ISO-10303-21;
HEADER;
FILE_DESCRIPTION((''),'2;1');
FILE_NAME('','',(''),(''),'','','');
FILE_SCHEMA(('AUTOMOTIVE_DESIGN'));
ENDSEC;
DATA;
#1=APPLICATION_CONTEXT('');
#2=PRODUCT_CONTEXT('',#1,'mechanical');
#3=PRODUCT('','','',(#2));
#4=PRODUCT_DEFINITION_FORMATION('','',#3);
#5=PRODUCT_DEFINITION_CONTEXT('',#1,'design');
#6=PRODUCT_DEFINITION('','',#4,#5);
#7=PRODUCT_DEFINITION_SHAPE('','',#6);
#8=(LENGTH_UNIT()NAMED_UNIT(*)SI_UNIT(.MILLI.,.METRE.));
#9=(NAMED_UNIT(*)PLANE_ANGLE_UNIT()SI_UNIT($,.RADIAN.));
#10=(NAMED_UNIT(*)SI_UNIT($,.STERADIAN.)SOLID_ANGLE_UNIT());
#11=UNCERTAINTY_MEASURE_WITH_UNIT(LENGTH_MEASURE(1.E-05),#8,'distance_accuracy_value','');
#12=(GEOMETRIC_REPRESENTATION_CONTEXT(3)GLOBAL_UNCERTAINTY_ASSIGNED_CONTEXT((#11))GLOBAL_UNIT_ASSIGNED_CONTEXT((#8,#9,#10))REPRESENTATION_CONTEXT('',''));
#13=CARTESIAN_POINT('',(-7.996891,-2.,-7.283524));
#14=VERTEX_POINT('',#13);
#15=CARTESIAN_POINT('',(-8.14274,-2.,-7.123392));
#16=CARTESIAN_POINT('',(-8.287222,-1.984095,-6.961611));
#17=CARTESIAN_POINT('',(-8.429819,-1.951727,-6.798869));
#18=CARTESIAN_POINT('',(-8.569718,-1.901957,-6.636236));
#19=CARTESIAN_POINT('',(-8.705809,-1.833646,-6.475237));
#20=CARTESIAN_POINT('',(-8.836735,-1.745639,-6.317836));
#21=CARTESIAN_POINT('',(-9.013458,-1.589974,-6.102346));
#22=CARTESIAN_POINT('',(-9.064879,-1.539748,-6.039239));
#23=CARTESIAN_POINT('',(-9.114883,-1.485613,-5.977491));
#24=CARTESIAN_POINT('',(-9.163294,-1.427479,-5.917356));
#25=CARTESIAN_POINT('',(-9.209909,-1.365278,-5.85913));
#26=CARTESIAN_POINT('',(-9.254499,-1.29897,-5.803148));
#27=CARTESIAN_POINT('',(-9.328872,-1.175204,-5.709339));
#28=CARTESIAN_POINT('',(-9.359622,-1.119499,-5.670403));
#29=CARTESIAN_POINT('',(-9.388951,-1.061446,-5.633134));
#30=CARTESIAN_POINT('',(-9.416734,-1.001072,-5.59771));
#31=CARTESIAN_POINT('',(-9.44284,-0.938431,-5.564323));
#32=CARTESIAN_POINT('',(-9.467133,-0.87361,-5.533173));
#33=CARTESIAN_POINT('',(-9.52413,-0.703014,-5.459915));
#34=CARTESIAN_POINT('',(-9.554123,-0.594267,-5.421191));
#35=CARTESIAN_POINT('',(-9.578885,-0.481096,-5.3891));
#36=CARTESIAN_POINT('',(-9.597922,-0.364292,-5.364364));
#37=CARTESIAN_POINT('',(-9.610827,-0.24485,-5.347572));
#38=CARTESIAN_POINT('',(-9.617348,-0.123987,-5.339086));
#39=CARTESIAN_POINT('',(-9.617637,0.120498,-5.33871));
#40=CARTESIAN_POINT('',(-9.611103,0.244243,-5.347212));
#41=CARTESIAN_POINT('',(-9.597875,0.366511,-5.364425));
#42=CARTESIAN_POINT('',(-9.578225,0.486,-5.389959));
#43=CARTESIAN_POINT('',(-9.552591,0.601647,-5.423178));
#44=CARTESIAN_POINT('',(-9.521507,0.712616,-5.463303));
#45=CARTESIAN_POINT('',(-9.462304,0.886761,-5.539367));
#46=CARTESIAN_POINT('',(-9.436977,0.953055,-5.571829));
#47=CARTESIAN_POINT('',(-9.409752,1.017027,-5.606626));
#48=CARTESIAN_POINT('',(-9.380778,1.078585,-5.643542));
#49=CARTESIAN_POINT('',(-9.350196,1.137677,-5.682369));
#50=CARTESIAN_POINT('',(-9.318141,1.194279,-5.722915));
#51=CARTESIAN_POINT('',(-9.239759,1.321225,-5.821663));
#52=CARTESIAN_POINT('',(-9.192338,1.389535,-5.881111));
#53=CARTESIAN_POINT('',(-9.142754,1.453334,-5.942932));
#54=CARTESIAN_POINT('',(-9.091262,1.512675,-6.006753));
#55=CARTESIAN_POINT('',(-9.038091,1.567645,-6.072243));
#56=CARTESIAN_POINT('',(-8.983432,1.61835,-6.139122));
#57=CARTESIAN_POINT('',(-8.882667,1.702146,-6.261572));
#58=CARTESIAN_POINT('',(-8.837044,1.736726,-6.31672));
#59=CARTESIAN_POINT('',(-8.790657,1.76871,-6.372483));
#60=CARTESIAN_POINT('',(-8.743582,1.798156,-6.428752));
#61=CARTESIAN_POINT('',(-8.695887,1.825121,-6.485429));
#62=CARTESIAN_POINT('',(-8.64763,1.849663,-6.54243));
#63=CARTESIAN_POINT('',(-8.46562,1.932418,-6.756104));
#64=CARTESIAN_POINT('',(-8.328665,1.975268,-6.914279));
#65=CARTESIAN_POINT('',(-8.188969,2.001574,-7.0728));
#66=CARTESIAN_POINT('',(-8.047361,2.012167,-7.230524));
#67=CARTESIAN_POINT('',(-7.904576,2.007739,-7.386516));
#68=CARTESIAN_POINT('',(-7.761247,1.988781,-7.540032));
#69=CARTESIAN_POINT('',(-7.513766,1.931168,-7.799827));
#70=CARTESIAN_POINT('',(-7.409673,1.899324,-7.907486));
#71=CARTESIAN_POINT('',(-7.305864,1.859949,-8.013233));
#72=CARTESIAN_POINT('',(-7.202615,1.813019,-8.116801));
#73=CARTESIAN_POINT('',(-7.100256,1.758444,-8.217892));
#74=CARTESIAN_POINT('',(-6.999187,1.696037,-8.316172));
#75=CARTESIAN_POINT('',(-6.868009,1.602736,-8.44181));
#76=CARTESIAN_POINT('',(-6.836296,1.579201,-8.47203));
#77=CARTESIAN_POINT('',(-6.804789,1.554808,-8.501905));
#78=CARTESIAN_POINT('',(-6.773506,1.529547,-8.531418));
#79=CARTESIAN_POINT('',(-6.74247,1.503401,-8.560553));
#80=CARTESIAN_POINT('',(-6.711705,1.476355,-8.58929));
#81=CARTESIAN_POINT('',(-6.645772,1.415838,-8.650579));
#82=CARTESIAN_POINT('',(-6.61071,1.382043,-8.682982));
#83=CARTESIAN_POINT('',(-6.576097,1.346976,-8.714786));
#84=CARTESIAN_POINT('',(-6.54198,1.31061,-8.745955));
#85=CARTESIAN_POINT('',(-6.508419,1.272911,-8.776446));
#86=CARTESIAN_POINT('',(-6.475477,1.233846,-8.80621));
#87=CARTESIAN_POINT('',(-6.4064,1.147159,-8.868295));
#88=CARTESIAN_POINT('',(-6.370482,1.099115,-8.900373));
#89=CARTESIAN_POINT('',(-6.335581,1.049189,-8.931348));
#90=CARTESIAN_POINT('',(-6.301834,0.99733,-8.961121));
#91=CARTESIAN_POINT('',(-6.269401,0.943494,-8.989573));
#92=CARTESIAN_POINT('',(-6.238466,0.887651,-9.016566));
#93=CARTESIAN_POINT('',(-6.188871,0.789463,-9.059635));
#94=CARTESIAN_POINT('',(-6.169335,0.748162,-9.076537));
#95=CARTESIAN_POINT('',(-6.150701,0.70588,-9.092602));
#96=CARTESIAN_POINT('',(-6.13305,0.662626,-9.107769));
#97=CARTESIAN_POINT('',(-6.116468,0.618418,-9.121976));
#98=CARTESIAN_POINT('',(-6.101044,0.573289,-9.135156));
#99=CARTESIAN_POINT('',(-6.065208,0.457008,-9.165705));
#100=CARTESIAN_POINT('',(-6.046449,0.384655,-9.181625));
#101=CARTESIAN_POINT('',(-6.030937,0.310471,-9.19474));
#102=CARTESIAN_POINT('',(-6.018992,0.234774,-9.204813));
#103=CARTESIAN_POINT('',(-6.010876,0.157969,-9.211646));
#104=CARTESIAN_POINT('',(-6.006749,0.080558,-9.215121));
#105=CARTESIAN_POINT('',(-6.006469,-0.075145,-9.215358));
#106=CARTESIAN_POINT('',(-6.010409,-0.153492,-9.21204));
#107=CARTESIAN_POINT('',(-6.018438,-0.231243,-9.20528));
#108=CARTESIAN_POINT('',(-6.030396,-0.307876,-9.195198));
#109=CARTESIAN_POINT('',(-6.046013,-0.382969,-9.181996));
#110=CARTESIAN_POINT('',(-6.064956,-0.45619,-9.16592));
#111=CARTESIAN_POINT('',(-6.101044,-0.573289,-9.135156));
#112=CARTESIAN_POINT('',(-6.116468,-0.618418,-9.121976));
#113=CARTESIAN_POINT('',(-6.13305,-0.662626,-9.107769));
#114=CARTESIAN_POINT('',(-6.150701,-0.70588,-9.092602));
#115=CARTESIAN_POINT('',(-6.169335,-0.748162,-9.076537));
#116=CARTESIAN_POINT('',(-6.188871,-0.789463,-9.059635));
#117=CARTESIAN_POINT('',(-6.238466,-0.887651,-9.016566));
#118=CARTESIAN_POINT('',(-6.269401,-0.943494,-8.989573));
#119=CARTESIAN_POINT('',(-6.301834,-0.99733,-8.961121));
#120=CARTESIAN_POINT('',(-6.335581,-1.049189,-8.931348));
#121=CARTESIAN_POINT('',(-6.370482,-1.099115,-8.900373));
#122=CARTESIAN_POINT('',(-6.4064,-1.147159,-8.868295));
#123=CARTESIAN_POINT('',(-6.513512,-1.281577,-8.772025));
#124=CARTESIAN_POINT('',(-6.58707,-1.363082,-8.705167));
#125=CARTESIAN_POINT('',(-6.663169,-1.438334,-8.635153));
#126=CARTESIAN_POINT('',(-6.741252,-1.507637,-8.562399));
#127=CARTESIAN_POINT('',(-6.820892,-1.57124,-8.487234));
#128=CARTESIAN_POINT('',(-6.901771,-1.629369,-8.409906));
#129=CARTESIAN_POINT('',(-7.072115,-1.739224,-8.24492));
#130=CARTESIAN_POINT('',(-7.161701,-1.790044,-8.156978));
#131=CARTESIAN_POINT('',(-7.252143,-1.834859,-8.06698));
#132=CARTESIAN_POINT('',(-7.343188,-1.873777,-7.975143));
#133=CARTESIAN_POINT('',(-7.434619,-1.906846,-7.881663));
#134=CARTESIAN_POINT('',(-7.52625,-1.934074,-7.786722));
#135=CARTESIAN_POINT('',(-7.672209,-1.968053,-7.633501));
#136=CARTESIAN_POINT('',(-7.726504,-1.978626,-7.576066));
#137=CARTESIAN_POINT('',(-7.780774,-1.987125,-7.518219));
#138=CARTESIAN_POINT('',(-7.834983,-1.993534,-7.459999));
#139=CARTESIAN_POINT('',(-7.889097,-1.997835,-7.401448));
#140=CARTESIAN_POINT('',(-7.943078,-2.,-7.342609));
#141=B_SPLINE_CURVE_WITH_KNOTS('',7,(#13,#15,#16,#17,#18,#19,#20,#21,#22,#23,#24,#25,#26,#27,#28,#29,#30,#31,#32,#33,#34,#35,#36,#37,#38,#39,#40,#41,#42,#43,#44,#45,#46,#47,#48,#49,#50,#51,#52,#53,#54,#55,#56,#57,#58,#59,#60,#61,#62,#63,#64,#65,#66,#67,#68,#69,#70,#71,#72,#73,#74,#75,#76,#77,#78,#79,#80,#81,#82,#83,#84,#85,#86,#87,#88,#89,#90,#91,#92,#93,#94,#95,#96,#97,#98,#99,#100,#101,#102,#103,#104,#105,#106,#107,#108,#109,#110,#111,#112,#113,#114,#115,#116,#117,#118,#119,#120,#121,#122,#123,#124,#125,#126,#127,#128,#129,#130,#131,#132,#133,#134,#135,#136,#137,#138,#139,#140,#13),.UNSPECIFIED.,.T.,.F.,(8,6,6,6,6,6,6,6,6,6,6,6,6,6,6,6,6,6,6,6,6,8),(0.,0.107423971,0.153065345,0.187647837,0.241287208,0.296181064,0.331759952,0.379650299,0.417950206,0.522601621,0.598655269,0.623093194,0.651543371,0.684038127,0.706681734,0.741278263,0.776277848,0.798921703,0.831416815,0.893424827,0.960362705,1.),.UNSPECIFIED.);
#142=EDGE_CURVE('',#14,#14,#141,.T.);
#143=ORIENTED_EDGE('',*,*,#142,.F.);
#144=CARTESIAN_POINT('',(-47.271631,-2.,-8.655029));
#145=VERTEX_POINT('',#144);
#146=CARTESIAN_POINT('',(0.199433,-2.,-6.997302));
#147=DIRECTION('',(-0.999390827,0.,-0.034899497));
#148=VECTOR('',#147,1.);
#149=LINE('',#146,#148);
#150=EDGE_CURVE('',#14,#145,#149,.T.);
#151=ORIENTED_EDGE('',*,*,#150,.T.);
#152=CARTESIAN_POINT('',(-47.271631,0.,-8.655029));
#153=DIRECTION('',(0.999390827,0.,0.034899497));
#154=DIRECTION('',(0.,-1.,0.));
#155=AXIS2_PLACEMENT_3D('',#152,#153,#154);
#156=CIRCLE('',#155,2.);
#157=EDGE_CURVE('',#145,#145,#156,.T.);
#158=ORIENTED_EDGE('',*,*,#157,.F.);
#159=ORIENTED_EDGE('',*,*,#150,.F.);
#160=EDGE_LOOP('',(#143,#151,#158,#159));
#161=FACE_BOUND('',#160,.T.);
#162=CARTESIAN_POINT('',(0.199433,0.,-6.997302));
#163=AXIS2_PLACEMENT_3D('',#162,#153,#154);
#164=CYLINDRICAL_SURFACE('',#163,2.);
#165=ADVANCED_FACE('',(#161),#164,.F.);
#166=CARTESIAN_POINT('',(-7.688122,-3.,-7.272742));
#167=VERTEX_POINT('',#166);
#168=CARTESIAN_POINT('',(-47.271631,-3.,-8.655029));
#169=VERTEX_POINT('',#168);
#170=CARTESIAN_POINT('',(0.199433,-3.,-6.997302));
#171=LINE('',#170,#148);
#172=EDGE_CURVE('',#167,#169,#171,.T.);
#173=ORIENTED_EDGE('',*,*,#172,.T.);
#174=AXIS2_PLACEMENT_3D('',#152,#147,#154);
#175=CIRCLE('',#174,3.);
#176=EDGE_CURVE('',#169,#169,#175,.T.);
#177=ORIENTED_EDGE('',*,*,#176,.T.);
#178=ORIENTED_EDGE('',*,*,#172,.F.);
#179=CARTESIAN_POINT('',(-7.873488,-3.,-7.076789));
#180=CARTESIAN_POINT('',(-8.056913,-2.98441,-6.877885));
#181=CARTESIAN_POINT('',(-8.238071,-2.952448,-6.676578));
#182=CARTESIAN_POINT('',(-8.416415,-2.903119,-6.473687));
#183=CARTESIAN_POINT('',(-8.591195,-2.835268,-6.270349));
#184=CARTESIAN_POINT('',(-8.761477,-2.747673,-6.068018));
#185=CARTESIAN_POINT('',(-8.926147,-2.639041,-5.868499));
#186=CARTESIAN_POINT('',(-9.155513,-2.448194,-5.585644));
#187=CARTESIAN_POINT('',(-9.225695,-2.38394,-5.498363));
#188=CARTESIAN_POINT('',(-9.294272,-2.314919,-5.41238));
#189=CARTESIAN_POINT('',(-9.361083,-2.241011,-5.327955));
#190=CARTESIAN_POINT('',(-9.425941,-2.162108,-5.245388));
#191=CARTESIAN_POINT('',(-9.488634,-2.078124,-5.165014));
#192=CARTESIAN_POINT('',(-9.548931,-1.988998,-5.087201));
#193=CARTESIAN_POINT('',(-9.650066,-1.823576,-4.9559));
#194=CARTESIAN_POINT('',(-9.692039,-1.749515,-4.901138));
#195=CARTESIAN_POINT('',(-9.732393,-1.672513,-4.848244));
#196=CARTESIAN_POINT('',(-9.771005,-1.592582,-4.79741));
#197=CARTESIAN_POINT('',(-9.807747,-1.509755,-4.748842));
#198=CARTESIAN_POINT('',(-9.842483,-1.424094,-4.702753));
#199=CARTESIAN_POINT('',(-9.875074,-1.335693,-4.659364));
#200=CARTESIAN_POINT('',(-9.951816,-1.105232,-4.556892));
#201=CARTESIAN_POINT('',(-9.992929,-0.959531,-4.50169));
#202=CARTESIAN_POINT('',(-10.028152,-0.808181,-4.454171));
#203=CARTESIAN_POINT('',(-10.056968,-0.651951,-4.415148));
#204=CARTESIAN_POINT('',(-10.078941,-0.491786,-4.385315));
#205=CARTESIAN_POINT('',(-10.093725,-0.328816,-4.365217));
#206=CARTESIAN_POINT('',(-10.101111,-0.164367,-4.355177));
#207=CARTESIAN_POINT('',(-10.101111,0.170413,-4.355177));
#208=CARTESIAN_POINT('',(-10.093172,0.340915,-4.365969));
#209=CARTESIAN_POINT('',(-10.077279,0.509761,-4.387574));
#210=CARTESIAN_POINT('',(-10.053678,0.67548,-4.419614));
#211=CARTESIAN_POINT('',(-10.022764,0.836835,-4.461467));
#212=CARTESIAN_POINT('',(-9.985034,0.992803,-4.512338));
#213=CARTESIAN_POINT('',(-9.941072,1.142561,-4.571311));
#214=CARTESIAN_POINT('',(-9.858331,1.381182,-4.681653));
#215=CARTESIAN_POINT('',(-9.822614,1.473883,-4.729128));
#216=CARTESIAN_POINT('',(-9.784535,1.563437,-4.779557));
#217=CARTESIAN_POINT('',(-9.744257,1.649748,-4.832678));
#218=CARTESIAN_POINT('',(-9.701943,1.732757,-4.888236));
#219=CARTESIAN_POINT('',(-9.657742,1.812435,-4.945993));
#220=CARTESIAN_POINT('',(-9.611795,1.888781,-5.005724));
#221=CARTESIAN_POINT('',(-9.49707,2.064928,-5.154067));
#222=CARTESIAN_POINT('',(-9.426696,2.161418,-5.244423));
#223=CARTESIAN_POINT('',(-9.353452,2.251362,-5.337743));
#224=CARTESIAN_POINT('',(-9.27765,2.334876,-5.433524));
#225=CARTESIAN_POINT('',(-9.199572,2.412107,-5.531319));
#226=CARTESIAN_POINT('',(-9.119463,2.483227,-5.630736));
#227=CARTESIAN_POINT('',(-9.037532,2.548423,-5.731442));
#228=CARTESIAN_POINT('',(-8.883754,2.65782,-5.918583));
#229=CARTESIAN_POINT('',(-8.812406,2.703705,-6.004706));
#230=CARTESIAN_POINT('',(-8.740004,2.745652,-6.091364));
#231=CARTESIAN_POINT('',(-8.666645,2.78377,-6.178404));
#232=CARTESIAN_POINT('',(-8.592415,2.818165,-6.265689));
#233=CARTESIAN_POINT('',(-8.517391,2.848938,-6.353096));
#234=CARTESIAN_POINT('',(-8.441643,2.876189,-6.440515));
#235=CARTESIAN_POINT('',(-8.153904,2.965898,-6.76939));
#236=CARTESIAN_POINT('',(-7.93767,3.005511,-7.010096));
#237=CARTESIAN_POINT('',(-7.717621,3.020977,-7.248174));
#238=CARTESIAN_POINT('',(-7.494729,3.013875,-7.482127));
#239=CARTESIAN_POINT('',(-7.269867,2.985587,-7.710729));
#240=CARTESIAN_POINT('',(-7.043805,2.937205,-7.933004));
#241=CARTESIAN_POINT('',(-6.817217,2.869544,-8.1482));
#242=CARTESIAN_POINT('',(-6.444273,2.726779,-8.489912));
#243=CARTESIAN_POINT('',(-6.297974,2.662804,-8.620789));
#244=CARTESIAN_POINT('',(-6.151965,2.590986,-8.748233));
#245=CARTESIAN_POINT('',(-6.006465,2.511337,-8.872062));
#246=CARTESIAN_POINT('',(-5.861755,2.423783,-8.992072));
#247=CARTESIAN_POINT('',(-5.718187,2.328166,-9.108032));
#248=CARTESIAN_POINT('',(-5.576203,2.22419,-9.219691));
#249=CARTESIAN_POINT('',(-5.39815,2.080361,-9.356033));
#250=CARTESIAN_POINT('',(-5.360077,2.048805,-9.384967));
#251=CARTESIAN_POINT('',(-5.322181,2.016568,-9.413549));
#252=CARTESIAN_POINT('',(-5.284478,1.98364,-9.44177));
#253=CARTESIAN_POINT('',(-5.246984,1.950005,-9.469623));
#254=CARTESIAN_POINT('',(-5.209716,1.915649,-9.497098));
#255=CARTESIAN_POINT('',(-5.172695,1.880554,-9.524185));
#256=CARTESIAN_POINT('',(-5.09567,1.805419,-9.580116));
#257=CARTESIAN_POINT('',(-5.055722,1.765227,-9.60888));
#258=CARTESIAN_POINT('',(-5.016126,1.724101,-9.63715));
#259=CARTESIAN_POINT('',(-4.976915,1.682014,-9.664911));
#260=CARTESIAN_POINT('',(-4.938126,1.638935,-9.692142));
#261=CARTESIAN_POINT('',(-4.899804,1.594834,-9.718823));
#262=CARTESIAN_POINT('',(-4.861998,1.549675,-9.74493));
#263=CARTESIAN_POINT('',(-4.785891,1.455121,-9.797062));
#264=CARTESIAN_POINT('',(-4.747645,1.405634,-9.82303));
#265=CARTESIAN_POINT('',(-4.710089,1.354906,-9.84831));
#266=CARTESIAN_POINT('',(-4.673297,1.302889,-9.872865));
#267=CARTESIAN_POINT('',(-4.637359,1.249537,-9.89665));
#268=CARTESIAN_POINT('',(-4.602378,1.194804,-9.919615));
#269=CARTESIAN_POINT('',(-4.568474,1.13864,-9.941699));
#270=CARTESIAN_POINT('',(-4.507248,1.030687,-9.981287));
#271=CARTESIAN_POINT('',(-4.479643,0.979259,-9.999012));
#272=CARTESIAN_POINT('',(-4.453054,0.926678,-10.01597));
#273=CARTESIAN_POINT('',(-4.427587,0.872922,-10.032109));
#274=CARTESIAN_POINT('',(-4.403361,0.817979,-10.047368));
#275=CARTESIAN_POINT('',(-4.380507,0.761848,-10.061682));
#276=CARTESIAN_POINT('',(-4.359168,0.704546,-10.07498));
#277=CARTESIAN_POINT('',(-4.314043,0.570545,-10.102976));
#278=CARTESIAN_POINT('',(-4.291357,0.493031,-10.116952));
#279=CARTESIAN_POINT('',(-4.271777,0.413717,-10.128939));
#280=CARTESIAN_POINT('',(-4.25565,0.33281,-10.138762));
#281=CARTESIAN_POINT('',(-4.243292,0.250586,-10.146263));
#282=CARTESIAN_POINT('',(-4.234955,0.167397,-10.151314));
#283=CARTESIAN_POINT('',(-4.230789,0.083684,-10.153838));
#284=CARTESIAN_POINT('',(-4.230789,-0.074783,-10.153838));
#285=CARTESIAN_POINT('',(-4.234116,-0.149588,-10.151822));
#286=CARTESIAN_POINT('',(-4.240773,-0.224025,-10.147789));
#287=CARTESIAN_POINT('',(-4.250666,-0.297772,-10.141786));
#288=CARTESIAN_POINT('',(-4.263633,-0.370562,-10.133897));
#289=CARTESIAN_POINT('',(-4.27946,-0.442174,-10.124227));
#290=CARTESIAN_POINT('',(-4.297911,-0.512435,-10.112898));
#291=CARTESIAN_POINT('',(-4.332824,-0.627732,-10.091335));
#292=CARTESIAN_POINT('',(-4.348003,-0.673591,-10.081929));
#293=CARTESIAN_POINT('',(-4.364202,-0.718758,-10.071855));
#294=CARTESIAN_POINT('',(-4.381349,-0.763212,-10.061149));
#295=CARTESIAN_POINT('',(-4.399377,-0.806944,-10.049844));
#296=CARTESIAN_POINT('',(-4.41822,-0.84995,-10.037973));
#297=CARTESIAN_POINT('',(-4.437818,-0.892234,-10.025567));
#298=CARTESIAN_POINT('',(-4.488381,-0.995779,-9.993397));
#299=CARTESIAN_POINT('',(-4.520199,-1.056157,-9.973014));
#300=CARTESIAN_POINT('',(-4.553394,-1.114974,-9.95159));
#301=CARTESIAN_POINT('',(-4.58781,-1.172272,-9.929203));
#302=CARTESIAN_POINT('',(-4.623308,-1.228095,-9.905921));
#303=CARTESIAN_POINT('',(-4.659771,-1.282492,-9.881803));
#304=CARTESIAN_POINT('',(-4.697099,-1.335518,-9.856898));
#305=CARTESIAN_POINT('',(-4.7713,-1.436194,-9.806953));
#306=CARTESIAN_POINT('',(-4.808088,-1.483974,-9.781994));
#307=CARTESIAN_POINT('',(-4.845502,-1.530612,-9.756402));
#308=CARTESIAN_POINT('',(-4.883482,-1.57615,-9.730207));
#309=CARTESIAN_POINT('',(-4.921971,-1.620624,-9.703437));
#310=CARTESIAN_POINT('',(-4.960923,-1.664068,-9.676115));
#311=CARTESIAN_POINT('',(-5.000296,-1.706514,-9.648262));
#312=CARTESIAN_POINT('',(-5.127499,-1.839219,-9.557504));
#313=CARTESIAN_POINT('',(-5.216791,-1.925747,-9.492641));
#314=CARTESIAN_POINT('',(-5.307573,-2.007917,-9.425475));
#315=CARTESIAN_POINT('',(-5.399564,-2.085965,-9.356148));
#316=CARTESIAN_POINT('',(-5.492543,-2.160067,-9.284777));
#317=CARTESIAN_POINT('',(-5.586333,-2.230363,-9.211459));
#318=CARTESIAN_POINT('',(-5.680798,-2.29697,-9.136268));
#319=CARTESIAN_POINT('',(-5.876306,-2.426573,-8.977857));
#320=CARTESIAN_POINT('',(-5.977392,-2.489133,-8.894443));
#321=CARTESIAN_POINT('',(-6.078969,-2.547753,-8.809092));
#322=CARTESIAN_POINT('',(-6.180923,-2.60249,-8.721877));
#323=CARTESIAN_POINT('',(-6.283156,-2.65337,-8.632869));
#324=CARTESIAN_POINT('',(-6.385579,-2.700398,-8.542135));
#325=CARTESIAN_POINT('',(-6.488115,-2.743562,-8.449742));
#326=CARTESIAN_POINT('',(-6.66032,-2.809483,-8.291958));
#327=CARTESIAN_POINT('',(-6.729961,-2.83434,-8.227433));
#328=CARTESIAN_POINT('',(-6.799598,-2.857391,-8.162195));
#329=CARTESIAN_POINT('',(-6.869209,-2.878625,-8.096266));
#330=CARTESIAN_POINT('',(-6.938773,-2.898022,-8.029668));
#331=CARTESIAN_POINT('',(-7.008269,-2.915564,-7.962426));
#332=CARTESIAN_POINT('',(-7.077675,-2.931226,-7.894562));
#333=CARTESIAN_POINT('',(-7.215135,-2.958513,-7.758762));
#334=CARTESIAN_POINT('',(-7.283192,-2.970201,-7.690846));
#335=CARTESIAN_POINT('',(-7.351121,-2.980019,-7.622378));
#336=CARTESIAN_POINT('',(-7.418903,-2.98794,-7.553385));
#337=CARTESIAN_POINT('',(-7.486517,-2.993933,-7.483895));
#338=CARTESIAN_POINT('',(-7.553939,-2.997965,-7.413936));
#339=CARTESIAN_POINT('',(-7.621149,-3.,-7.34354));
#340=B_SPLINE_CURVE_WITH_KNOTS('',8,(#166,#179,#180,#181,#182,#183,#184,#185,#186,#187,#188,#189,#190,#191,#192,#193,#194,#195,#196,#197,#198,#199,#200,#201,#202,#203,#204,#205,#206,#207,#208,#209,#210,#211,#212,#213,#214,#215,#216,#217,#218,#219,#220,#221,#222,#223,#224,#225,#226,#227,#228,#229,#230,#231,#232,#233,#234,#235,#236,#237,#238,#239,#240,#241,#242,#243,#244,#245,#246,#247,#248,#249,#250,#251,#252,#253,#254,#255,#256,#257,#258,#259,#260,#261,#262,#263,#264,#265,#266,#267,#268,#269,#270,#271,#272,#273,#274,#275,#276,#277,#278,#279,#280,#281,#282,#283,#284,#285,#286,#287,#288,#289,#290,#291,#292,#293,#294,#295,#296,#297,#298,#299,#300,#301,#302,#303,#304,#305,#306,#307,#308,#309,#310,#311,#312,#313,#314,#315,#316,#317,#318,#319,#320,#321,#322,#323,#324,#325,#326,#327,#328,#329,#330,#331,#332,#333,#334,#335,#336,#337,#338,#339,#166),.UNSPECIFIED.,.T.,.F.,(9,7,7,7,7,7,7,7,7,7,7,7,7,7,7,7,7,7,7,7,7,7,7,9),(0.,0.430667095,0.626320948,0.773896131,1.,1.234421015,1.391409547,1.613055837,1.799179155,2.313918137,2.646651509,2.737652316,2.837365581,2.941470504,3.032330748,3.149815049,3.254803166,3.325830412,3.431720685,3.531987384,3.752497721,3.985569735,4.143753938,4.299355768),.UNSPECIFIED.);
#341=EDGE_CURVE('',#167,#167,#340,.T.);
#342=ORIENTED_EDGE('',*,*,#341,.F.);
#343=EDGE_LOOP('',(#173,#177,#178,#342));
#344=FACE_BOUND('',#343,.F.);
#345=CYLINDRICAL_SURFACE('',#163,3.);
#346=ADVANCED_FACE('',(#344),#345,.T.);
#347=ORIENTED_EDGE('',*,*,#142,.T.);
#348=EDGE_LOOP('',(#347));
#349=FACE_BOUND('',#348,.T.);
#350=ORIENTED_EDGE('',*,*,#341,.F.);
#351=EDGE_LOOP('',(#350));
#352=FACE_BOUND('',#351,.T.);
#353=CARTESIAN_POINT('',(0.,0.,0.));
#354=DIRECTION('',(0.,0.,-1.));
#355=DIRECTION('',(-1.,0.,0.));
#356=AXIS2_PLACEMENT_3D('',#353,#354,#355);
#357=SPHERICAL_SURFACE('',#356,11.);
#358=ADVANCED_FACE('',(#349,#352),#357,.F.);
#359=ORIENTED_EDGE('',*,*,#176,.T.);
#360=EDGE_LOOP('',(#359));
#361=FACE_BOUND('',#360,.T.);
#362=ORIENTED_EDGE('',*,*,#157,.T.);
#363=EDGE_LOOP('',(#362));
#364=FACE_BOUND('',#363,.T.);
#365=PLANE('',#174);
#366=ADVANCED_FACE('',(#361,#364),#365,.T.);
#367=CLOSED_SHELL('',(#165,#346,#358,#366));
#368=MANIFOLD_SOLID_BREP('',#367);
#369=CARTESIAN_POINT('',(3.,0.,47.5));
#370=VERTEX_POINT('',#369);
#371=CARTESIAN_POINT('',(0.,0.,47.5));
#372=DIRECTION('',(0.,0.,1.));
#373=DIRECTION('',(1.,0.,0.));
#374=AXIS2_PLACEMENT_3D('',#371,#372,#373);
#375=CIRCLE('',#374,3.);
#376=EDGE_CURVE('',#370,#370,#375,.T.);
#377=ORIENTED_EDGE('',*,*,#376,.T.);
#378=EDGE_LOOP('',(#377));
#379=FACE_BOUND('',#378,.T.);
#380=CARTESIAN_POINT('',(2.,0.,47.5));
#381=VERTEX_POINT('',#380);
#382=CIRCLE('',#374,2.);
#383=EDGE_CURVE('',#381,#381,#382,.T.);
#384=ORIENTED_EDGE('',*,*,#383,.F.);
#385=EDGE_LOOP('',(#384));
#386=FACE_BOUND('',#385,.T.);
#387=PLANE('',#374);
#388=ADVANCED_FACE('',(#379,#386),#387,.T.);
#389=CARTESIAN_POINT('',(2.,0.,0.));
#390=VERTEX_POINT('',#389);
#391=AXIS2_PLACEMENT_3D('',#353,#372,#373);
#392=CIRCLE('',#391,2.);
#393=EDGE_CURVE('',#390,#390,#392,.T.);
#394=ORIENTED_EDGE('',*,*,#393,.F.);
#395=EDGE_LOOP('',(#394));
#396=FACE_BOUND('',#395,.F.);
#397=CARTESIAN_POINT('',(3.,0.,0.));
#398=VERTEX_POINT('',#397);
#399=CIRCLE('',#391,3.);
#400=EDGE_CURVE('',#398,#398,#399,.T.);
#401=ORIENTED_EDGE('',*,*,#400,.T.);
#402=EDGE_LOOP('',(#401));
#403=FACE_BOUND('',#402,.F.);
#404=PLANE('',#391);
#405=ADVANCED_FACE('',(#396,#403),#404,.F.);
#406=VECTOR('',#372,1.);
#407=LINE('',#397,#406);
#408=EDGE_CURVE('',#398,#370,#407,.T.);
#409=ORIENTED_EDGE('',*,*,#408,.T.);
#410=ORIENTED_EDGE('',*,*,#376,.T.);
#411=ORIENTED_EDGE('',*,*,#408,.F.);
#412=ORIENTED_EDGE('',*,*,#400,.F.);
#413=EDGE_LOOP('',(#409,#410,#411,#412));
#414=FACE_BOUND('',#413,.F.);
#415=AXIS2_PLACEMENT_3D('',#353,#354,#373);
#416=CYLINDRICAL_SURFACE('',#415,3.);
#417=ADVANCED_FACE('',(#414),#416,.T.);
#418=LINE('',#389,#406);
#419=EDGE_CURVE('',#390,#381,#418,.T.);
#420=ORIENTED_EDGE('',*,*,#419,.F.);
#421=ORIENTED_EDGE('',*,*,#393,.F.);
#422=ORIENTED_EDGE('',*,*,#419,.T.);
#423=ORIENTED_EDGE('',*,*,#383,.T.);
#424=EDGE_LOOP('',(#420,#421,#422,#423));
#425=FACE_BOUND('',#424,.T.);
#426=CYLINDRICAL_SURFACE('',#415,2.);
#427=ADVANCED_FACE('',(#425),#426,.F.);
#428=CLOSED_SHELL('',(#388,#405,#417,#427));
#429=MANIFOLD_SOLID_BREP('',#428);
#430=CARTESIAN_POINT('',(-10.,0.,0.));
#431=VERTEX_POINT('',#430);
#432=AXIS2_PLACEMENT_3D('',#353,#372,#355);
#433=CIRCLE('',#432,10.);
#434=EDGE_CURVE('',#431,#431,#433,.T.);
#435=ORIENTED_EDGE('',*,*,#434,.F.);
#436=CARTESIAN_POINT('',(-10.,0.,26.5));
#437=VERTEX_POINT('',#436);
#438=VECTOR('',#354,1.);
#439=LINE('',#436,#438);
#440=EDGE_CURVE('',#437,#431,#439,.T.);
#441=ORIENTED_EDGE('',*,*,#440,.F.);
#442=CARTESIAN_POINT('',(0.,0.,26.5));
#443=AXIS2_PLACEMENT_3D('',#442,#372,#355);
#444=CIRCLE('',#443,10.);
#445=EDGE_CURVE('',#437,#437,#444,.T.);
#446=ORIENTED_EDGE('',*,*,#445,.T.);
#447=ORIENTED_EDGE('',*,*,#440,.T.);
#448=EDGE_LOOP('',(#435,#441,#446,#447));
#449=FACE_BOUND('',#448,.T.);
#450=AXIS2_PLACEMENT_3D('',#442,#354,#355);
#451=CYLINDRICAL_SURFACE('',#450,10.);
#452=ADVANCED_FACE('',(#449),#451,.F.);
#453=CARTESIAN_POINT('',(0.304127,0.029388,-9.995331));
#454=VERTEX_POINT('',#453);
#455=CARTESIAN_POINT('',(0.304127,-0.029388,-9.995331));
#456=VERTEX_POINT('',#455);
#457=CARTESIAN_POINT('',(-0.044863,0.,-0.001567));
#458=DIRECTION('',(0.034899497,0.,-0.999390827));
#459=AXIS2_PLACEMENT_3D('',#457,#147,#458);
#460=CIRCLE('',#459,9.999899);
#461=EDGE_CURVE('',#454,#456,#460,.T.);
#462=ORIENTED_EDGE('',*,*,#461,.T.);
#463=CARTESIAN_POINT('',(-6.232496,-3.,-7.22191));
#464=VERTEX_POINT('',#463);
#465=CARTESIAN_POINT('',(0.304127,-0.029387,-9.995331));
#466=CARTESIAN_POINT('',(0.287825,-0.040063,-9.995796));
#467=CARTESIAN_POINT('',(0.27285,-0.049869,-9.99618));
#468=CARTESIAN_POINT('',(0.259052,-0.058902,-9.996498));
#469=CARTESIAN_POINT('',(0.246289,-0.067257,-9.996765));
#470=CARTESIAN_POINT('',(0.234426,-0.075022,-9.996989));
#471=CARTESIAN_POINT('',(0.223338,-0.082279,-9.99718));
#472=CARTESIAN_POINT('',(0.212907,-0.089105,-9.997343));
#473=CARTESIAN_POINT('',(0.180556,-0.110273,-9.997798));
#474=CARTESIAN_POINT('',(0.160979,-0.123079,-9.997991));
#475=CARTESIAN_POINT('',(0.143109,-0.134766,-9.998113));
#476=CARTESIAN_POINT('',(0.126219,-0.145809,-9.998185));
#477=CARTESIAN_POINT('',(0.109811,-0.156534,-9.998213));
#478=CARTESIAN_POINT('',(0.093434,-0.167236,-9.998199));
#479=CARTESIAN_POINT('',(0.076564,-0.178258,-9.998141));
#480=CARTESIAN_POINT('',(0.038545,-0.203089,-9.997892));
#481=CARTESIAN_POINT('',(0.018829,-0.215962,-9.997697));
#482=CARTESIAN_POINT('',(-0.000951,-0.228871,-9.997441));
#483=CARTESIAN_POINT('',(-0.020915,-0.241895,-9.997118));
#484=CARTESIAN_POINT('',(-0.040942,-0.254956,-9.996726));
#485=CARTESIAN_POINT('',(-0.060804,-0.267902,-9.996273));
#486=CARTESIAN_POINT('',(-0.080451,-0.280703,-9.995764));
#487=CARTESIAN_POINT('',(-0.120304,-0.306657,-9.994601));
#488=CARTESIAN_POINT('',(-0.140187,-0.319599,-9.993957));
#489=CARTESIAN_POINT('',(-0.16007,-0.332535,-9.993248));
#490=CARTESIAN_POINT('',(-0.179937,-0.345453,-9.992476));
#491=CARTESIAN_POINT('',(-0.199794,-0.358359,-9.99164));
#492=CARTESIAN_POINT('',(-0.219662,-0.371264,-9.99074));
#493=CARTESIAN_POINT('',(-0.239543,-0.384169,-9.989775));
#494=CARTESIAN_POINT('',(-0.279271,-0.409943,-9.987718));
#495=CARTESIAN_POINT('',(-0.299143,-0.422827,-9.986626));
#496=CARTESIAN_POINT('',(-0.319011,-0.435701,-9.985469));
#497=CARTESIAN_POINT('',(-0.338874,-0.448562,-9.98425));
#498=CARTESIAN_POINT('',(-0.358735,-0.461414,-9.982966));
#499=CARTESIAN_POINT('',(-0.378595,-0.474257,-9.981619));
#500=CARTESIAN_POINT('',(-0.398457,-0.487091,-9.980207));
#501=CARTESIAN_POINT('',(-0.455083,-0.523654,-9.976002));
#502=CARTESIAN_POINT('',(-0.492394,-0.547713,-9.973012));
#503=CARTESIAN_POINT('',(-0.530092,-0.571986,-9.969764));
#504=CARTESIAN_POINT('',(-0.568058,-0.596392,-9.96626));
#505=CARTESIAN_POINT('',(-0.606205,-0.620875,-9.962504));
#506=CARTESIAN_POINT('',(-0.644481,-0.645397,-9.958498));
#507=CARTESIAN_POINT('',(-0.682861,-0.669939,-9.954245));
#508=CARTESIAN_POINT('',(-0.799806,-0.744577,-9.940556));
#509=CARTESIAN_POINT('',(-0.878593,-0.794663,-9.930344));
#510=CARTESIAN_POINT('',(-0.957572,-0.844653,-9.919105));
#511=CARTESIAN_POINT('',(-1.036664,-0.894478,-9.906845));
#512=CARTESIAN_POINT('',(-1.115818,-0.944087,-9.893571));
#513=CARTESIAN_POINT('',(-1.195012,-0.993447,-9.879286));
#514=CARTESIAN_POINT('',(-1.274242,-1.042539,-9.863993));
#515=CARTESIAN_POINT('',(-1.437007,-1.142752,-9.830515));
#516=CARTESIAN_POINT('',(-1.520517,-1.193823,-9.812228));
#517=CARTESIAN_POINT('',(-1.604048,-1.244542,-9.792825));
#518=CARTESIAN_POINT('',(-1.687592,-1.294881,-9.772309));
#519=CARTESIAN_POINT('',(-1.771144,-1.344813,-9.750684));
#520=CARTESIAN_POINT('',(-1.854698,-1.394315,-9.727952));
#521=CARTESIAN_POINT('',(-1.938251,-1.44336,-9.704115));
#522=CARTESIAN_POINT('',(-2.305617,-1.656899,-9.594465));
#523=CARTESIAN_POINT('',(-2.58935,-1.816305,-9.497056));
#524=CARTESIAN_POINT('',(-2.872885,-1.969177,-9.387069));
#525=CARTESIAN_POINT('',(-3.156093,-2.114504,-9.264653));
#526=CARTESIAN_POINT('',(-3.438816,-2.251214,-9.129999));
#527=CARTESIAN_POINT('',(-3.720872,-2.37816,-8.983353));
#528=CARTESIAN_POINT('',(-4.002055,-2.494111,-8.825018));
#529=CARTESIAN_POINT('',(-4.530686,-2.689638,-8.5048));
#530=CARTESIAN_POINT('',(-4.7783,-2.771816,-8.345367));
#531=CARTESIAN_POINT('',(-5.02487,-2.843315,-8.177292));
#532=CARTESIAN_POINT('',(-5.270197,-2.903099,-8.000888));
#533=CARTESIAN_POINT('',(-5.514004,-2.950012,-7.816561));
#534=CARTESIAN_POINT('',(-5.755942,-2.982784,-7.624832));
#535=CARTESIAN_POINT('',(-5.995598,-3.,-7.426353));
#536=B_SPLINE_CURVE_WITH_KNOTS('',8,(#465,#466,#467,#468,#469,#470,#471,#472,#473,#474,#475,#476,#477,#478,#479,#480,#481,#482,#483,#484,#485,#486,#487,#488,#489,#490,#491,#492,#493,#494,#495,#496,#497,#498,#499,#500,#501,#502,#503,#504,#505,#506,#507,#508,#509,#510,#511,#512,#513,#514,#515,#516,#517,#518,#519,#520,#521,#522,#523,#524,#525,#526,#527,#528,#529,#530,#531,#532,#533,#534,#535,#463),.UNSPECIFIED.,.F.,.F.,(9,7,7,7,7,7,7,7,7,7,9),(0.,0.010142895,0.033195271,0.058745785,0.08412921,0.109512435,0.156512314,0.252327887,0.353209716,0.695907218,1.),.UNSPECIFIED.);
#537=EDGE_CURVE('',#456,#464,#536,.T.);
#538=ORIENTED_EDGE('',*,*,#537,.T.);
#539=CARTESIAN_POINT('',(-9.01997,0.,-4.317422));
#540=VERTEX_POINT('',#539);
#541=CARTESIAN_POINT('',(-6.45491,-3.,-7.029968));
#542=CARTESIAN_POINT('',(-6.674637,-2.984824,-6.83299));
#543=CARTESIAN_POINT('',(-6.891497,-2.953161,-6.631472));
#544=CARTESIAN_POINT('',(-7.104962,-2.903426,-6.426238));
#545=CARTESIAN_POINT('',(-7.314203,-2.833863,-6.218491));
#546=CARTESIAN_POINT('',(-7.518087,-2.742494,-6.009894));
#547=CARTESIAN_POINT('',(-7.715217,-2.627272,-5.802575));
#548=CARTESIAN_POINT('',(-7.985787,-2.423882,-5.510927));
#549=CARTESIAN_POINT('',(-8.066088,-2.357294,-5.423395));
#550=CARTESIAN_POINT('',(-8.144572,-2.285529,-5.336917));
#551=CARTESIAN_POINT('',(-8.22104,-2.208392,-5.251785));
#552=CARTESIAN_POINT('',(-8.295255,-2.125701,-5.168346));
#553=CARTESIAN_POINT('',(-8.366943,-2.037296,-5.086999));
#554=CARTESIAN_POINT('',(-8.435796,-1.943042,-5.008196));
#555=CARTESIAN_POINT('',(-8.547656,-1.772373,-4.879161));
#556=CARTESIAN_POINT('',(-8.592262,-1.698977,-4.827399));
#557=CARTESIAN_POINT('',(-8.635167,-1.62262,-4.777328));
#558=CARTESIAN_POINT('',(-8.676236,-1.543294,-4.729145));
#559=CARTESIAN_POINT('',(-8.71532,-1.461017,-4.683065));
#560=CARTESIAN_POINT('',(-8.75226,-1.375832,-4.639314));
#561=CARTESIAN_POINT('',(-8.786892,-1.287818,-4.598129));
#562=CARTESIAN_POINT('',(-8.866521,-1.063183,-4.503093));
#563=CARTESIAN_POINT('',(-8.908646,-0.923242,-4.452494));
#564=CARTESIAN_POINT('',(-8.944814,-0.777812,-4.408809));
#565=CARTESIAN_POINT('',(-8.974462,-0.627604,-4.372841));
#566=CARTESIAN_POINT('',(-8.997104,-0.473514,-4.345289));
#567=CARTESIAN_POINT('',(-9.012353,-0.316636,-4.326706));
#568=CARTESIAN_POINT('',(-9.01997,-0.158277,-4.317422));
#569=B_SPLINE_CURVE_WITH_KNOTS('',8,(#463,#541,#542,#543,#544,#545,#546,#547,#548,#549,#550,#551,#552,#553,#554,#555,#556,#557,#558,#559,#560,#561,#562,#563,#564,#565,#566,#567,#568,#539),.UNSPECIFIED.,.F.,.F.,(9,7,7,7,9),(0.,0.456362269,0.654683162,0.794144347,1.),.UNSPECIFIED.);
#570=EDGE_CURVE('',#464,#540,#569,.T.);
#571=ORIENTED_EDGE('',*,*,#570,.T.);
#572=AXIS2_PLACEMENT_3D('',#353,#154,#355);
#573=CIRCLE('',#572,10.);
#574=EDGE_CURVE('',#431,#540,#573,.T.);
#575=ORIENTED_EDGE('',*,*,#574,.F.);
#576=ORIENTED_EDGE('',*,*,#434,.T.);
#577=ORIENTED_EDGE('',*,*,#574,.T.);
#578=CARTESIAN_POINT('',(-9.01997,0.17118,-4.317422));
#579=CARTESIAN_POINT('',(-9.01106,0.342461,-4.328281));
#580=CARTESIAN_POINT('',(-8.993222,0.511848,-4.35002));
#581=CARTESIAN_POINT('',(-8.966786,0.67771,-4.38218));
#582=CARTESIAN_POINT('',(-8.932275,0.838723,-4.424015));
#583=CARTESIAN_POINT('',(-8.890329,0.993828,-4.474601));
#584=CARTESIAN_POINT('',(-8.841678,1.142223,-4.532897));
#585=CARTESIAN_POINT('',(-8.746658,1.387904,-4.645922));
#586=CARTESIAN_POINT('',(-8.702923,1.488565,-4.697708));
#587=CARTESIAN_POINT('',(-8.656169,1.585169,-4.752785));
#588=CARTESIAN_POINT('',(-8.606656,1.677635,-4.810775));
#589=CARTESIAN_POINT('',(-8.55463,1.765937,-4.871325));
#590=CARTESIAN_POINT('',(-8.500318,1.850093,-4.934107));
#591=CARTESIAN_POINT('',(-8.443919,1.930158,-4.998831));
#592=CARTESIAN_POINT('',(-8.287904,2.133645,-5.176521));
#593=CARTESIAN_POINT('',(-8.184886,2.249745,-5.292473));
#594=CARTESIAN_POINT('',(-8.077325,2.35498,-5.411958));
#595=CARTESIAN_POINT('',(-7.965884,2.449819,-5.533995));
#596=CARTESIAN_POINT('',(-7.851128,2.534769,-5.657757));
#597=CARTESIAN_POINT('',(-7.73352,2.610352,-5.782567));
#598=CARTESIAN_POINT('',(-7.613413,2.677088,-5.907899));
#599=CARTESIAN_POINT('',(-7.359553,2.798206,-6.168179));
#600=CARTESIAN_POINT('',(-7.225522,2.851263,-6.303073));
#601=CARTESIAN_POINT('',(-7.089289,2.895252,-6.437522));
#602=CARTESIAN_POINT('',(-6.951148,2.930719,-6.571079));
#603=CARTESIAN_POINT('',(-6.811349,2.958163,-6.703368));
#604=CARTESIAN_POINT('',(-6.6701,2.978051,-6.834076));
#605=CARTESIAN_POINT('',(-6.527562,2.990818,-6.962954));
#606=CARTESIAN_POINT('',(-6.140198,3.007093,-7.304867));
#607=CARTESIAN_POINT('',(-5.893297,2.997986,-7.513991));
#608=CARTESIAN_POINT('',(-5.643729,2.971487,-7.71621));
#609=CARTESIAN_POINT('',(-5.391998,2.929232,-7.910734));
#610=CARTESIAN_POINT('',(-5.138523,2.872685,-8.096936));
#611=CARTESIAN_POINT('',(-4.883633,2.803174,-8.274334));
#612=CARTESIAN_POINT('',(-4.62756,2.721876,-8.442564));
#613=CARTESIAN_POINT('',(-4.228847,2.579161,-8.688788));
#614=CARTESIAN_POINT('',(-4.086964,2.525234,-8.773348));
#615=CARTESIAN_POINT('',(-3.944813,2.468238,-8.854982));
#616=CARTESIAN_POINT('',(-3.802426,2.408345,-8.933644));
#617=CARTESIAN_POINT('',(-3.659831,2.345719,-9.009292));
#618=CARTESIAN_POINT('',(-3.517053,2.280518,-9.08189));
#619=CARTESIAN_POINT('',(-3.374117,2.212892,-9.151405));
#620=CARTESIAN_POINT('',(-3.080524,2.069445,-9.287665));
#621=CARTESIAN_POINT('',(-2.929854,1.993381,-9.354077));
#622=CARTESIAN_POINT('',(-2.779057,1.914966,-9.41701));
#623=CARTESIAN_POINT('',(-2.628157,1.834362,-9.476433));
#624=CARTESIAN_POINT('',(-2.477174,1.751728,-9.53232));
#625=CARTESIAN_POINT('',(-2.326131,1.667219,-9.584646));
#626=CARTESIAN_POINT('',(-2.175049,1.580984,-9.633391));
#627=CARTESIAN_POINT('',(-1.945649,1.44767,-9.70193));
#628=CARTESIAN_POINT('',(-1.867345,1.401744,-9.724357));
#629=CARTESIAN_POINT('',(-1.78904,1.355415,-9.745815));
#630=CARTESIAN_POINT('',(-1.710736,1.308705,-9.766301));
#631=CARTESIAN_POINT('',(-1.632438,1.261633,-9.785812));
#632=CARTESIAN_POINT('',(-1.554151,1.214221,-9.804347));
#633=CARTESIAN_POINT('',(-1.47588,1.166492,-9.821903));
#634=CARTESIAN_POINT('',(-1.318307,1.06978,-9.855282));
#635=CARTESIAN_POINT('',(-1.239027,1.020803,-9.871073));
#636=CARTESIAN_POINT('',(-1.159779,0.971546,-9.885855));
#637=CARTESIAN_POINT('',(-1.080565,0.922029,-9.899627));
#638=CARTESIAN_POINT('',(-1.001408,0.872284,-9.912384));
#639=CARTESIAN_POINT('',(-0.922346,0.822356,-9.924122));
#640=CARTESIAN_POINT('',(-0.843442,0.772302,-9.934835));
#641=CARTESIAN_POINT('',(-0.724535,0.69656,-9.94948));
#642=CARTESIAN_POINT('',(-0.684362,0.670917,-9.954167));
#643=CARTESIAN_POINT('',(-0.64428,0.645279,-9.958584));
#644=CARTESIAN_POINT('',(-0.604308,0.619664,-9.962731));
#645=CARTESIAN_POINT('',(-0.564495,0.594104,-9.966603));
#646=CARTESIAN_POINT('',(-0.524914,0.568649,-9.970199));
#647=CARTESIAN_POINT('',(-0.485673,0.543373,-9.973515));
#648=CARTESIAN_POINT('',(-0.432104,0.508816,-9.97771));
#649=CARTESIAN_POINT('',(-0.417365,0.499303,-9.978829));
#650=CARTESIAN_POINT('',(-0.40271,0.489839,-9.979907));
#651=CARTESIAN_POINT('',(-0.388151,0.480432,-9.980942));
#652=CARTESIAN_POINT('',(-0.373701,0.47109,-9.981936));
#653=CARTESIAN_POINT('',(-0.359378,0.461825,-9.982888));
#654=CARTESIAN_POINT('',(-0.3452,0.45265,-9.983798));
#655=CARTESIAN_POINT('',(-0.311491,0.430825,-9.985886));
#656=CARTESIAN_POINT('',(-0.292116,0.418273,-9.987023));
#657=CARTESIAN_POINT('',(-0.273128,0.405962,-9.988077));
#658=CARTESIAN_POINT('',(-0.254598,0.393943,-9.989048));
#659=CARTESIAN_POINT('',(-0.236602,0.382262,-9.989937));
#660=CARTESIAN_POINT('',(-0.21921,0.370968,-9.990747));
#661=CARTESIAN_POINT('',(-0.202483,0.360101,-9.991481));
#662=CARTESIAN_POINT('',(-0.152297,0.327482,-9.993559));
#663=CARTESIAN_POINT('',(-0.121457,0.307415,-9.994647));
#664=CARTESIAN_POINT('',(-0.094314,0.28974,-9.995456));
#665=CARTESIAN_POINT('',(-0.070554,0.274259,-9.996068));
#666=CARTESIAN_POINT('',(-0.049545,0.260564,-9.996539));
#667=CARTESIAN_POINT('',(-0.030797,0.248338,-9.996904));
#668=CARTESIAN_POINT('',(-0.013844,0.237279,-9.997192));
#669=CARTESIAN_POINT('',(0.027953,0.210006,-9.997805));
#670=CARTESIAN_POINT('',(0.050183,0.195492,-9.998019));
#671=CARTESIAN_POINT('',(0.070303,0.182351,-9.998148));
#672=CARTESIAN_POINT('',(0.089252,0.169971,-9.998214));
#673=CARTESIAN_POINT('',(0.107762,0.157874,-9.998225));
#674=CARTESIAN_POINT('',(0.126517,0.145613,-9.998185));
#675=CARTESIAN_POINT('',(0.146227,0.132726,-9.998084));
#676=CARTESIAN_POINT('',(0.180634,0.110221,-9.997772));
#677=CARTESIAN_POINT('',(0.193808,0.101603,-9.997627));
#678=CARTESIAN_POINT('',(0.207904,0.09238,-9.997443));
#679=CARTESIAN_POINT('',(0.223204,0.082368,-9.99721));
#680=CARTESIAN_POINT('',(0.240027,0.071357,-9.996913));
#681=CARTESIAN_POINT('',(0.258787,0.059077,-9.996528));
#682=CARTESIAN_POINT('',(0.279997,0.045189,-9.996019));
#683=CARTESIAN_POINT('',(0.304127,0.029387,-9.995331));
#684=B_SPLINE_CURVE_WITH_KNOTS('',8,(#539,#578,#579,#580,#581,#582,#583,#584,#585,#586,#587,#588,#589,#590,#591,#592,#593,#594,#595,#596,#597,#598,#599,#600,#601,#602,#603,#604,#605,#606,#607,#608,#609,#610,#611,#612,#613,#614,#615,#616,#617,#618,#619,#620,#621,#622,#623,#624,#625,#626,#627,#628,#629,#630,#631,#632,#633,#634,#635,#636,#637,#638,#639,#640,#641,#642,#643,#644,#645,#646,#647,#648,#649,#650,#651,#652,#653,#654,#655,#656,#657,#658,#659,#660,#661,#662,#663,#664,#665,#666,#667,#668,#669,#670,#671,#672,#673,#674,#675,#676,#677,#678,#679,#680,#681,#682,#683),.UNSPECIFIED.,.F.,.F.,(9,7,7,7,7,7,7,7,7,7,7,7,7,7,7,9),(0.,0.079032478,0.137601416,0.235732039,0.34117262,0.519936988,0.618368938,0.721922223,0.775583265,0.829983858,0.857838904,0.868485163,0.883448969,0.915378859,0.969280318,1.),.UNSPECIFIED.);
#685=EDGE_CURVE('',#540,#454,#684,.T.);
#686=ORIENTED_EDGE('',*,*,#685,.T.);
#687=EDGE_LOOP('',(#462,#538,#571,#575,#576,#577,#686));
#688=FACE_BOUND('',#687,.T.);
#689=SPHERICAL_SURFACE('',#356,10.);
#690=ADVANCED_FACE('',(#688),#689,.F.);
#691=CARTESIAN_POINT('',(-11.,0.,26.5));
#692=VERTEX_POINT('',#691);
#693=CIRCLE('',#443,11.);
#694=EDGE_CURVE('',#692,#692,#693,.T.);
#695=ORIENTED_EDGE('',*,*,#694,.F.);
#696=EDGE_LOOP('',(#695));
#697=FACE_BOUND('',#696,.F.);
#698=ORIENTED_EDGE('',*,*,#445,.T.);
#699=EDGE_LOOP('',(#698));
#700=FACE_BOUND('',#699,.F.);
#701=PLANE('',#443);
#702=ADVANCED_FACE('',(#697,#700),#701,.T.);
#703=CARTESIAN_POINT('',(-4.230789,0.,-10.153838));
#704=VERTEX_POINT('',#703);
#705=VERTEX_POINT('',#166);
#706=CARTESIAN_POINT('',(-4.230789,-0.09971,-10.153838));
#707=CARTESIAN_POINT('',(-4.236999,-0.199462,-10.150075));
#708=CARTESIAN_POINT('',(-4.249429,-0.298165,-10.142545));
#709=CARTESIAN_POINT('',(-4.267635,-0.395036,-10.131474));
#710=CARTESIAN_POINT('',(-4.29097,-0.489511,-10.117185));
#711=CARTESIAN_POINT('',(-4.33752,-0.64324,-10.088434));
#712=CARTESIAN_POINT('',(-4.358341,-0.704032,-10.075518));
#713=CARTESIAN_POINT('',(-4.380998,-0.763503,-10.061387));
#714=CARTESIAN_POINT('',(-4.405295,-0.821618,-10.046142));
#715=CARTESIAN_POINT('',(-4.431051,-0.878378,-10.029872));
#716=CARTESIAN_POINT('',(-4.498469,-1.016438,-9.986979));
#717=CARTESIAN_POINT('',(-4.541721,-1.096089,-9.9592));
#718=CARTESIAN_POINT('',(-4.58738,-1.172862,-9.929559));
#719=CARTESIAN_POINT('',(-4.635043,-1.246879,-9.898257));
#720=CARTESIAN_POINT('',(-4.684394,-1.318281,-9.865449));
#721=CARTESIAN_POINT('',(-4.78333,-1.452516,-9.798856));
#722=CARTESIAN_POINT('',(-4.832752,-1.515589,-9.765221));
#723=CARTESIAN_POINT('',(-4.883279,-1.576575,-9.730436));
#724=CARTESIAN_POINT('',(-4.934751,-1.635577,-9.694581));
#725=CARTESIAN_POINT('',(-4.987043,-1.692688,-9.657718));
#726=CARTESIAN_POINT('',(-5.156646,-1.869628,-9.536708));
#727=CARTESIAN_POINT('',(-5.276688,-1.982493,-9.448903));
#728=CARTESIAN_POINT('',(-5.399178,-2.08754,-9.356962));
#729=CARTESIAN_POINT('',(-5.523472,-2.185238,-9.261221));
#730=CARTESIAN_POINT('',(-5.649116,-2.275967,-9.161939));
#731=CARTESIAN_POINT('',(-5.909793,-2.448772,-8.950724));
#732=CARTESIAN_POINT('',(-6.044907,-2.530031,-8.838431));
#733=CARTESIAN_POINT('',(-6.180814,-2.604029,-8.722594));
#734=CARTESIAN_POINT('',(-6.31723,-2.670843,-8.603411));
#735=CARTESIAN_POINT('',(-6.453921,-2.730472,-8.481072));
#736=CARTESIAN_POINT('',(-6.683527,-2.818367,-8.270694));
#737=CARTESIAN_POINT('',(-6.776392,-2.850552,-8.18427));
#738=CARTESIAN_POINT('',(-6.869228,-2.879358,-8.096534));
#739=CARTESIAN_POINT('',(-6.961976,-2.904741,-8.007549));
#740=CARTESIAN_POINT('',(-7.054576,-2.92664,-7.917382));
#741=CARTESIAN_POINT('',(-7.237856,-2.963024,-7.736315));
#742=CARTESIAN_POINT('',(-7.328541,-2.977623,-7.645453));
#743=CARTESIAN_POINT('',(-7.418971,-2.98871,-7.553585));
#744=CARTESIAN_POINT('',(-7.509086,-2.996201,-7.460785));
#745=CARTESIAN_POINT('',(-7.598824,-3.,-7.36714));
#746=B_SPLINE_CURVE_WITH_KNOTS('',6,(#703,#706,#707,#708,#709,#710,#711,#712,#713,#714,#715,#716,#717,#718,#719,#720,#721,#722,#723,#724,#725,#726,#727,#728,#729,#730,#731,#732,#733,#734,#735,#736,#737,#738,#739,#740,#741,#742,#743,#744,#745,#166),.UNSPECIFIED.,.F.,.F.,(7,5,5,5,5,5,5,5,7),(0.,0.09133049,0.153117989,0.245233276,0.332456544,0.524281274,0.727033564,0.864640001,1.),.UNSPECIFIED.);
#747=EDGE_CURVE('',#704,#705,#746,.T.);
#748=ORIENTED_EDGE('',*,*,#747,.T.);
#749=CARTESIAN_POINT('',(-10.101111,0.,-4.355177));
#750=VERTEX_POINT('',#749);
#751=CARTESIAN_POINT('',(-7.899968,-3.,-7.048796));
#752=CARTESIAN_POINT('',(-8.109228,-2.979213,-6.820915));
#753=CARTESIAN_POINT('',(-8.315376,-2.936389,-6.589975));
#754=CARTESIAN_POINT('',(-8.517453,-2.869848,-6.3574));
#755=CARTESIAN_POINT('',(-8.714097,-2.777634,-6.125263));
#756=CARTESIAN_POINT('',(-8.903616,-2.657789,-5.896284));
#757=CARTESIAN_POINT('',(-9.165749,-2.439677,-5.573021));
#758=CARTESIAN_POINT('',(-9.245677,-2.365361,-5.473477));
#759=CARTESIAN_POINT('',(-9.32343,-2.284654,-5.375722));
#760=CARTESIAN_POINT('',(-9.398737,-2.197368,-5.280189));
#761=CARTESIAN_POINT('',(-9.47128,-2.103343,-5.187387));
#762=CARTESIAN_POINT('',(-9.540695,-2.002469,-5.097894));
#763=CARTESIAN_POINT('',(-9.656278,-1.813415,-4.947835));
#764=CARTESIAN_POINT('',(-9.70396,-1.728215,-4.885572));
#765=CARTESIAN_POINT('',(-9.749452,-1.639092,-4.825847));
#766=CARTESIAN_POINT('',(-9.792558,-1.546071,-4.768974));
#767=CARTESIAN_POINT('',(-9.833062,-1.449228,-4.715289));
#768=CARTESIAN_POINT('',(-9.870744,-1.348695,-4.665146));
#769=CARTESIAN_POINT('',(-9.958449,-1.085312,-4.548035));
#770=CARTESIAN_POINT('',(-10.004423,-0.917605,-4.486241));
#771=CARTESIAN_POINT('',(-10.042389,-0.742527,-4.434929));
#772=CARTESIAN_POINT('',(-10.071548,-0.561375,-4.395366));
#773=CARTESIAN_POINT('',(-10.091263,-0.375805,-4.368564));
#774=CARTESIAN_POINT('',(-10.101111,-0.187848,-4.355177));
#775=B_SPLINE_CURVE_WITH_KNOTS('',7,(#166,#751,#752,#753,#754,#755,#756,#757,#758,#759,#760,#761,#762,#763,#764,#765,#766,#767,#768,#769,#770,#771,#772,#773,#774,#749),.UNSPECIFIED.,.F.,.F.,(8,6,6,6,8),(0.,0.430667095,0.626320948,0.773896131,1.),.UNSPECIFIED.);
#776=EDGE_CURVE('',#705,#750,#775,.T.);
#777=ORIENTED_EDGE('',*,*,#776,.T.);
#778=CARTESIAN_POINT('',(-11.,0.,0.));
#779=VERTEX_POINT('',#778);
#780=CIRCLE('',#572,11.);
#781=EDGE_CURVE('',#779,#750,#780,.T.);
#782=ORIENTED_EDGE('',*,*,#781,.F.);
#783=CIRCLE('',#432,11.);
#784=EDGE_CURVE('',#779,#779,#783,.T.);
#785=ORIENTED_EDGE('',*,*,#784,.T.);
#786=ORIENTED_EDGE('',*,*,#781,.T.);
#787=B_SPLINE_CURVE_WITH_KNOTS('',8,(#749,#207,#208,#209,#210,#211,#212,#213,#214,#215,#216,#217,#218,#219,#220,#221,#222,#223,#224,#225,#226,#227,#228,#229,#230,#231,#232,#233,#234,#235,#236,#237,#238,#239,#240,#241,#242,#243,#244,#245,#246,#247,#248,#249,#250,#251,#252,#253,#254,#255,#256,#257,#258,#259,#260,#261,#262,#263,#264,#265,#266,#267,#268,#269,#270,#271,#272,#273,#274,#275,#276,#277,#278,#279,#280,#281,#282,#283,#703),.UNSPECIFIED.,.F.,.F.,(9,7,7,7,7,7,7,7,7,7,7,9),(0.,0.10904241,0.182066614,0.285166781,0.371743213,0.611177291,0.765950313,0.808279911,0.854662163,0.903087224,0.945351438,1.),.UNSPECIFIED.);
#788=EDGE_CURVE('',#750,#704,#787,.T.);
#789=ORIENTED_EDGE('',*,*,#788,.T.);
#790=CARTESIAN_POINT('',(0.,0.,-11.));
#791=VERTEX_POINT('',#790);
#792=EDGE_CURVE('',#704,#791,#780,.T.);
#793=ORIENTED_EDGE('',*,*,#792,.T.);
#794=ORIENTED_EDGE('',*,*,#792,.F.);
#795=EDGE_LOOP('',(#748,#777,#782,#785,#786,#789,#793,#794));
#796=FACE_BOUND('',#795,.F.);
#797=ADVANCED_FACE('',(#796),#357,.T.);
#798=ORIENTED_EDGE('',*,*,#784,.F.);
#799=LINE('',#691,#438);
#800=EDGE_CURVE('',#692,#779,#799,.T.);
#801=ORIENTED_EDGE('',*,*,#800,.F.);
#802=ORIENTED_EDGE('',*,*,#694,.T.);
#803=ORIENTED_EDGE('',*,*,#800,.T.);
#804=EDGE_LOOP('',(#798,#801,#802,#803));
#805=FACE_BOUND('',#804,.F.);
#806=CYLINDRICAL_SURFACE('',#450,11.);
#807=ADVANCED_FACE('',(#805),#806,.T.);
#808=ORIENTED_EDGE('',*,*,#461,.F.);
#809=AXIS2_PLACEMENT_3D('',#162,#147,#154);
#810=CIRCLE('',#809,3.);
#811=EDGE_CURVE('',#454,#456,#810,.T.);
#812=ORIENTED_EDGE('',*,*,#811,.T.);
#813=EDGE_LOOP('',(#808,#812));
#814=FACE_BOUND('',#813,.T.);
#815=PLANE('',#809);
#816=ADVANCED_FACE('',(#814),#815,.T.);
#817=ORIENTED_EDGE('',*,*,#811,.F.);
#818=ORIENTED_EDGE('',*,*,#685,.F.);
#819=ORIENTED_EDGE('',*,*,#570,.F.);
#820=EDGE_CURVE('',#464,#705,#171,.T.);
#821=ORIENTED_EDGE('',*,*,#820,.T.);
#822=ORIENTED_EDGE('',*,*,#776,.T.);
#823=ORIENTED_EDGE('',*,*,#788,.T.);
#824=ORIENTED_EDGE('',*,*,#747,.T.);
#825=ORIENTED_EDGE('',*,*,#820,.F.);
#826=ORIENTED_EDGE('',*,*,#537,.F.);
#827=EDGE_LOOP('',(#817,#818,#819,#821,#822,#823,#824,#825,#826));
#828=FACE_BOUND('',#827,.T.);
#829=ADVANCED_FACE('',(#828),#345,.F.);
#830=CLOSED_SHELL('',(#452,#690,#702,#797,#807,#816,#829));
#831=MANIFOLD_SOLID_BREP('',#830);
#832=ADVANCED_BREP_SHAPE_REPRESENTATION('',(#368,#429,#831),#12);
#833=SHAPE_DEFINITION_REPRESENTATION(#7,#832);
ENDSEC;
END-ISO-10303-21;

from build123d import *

# Parameters (mm, degrees)
F2_T     = -1
F3_R     = 3
F3_R_2   = 2
F4_DEPTH = 47.5
F8_R     = 3
F9_DEPTH = 47.5
F13_T    = -1


with BuildPart() as f1:
    # F0 (on Front) → F1 (revolve)
    with BuildSketch(Plane.XZ):
        with BuildLine():
            Line((0, 0), (0, 26.5))
            Line((0, 26.5), (-11, 26.5))
            Line((-11, 26.5), (-11, 0))
            ThreePointArc((-11, 0), (-7.7781745931, -7.7781745931), (0, -11))
            Line((0, -11), (0, 0))
        make_face()
    revolve(axis=Axis((0, 0, 13.25), (0, 0, 1)))

    # F2
    f2_openings = [f1.faces().sort_by_distance(p)[0] for p in [
        (0, 0, 26.5),
    ]]
    offset(amount=F2_T, openings=f2_openings)


with BuildPart() as f4:
    # F3 (on Top) → F4 (new body)
    with BuildSketch(Plane.XY):
        Circle(F3_R)
        Circle(F3_R_2, mode=Mode.SUBTRACT)
    extrude(amount=F4_DEPTH)


with BuildPart() as f9:
    # F8 (on offset) → F9 (new body)
    with BuildSketch(Plane(origin=(-0.0448633716, 0, -0.0015666635), x_dir=(0, -1, 0), z_dir=(-0.999390827, 0, -0.0348994967))):
        with Locations((0, -7)):
            Circle(F8_R)
    extrude(amount=F9_DEPTH)


with BuildPart() as f1_1:
    add(f1.part)

    # F10: cut F9
    add(f9.part, mode=Mode.SUBTRACT)


with BuildPart() as f11:
    # F0 (on Front) → F11 (revolve)
    with BuildSketch(Plane.XZ):
        with BuildLine():
            Line((0, 0), (0, 26.5))
            Line((0, 26.5), (-11, 26.5))
            Line((-11, 26.5), (-11, 0))
            ThreePointArc((-11, 0), (-7.7781745931, -7.7781745931), (0, -11))
            Line((0, -11), (0, 0))
        make_face()
    revolve(axis=Axis((0, 0, 13.25), (0, 0, 1)))


with BuildPart() as f9_1:
    add(f9.part)

    # F12: cut F11
    add(f11.part, mode=Mode.SUBTRACT)

    # F13
    f13_openings = [f9_1.faces().sort_by_distance(p)[0] for p in [
        (-47.271631, 0, -8.655029),
        (-7.729963, -3e-06, -7.826089),
    ]]
    offset(amount=F13_T, openings=f13_openings, kind=Kind.INTERSECTION)


solid = Compound([f4.part, f1_1.part, f9_1.part])
